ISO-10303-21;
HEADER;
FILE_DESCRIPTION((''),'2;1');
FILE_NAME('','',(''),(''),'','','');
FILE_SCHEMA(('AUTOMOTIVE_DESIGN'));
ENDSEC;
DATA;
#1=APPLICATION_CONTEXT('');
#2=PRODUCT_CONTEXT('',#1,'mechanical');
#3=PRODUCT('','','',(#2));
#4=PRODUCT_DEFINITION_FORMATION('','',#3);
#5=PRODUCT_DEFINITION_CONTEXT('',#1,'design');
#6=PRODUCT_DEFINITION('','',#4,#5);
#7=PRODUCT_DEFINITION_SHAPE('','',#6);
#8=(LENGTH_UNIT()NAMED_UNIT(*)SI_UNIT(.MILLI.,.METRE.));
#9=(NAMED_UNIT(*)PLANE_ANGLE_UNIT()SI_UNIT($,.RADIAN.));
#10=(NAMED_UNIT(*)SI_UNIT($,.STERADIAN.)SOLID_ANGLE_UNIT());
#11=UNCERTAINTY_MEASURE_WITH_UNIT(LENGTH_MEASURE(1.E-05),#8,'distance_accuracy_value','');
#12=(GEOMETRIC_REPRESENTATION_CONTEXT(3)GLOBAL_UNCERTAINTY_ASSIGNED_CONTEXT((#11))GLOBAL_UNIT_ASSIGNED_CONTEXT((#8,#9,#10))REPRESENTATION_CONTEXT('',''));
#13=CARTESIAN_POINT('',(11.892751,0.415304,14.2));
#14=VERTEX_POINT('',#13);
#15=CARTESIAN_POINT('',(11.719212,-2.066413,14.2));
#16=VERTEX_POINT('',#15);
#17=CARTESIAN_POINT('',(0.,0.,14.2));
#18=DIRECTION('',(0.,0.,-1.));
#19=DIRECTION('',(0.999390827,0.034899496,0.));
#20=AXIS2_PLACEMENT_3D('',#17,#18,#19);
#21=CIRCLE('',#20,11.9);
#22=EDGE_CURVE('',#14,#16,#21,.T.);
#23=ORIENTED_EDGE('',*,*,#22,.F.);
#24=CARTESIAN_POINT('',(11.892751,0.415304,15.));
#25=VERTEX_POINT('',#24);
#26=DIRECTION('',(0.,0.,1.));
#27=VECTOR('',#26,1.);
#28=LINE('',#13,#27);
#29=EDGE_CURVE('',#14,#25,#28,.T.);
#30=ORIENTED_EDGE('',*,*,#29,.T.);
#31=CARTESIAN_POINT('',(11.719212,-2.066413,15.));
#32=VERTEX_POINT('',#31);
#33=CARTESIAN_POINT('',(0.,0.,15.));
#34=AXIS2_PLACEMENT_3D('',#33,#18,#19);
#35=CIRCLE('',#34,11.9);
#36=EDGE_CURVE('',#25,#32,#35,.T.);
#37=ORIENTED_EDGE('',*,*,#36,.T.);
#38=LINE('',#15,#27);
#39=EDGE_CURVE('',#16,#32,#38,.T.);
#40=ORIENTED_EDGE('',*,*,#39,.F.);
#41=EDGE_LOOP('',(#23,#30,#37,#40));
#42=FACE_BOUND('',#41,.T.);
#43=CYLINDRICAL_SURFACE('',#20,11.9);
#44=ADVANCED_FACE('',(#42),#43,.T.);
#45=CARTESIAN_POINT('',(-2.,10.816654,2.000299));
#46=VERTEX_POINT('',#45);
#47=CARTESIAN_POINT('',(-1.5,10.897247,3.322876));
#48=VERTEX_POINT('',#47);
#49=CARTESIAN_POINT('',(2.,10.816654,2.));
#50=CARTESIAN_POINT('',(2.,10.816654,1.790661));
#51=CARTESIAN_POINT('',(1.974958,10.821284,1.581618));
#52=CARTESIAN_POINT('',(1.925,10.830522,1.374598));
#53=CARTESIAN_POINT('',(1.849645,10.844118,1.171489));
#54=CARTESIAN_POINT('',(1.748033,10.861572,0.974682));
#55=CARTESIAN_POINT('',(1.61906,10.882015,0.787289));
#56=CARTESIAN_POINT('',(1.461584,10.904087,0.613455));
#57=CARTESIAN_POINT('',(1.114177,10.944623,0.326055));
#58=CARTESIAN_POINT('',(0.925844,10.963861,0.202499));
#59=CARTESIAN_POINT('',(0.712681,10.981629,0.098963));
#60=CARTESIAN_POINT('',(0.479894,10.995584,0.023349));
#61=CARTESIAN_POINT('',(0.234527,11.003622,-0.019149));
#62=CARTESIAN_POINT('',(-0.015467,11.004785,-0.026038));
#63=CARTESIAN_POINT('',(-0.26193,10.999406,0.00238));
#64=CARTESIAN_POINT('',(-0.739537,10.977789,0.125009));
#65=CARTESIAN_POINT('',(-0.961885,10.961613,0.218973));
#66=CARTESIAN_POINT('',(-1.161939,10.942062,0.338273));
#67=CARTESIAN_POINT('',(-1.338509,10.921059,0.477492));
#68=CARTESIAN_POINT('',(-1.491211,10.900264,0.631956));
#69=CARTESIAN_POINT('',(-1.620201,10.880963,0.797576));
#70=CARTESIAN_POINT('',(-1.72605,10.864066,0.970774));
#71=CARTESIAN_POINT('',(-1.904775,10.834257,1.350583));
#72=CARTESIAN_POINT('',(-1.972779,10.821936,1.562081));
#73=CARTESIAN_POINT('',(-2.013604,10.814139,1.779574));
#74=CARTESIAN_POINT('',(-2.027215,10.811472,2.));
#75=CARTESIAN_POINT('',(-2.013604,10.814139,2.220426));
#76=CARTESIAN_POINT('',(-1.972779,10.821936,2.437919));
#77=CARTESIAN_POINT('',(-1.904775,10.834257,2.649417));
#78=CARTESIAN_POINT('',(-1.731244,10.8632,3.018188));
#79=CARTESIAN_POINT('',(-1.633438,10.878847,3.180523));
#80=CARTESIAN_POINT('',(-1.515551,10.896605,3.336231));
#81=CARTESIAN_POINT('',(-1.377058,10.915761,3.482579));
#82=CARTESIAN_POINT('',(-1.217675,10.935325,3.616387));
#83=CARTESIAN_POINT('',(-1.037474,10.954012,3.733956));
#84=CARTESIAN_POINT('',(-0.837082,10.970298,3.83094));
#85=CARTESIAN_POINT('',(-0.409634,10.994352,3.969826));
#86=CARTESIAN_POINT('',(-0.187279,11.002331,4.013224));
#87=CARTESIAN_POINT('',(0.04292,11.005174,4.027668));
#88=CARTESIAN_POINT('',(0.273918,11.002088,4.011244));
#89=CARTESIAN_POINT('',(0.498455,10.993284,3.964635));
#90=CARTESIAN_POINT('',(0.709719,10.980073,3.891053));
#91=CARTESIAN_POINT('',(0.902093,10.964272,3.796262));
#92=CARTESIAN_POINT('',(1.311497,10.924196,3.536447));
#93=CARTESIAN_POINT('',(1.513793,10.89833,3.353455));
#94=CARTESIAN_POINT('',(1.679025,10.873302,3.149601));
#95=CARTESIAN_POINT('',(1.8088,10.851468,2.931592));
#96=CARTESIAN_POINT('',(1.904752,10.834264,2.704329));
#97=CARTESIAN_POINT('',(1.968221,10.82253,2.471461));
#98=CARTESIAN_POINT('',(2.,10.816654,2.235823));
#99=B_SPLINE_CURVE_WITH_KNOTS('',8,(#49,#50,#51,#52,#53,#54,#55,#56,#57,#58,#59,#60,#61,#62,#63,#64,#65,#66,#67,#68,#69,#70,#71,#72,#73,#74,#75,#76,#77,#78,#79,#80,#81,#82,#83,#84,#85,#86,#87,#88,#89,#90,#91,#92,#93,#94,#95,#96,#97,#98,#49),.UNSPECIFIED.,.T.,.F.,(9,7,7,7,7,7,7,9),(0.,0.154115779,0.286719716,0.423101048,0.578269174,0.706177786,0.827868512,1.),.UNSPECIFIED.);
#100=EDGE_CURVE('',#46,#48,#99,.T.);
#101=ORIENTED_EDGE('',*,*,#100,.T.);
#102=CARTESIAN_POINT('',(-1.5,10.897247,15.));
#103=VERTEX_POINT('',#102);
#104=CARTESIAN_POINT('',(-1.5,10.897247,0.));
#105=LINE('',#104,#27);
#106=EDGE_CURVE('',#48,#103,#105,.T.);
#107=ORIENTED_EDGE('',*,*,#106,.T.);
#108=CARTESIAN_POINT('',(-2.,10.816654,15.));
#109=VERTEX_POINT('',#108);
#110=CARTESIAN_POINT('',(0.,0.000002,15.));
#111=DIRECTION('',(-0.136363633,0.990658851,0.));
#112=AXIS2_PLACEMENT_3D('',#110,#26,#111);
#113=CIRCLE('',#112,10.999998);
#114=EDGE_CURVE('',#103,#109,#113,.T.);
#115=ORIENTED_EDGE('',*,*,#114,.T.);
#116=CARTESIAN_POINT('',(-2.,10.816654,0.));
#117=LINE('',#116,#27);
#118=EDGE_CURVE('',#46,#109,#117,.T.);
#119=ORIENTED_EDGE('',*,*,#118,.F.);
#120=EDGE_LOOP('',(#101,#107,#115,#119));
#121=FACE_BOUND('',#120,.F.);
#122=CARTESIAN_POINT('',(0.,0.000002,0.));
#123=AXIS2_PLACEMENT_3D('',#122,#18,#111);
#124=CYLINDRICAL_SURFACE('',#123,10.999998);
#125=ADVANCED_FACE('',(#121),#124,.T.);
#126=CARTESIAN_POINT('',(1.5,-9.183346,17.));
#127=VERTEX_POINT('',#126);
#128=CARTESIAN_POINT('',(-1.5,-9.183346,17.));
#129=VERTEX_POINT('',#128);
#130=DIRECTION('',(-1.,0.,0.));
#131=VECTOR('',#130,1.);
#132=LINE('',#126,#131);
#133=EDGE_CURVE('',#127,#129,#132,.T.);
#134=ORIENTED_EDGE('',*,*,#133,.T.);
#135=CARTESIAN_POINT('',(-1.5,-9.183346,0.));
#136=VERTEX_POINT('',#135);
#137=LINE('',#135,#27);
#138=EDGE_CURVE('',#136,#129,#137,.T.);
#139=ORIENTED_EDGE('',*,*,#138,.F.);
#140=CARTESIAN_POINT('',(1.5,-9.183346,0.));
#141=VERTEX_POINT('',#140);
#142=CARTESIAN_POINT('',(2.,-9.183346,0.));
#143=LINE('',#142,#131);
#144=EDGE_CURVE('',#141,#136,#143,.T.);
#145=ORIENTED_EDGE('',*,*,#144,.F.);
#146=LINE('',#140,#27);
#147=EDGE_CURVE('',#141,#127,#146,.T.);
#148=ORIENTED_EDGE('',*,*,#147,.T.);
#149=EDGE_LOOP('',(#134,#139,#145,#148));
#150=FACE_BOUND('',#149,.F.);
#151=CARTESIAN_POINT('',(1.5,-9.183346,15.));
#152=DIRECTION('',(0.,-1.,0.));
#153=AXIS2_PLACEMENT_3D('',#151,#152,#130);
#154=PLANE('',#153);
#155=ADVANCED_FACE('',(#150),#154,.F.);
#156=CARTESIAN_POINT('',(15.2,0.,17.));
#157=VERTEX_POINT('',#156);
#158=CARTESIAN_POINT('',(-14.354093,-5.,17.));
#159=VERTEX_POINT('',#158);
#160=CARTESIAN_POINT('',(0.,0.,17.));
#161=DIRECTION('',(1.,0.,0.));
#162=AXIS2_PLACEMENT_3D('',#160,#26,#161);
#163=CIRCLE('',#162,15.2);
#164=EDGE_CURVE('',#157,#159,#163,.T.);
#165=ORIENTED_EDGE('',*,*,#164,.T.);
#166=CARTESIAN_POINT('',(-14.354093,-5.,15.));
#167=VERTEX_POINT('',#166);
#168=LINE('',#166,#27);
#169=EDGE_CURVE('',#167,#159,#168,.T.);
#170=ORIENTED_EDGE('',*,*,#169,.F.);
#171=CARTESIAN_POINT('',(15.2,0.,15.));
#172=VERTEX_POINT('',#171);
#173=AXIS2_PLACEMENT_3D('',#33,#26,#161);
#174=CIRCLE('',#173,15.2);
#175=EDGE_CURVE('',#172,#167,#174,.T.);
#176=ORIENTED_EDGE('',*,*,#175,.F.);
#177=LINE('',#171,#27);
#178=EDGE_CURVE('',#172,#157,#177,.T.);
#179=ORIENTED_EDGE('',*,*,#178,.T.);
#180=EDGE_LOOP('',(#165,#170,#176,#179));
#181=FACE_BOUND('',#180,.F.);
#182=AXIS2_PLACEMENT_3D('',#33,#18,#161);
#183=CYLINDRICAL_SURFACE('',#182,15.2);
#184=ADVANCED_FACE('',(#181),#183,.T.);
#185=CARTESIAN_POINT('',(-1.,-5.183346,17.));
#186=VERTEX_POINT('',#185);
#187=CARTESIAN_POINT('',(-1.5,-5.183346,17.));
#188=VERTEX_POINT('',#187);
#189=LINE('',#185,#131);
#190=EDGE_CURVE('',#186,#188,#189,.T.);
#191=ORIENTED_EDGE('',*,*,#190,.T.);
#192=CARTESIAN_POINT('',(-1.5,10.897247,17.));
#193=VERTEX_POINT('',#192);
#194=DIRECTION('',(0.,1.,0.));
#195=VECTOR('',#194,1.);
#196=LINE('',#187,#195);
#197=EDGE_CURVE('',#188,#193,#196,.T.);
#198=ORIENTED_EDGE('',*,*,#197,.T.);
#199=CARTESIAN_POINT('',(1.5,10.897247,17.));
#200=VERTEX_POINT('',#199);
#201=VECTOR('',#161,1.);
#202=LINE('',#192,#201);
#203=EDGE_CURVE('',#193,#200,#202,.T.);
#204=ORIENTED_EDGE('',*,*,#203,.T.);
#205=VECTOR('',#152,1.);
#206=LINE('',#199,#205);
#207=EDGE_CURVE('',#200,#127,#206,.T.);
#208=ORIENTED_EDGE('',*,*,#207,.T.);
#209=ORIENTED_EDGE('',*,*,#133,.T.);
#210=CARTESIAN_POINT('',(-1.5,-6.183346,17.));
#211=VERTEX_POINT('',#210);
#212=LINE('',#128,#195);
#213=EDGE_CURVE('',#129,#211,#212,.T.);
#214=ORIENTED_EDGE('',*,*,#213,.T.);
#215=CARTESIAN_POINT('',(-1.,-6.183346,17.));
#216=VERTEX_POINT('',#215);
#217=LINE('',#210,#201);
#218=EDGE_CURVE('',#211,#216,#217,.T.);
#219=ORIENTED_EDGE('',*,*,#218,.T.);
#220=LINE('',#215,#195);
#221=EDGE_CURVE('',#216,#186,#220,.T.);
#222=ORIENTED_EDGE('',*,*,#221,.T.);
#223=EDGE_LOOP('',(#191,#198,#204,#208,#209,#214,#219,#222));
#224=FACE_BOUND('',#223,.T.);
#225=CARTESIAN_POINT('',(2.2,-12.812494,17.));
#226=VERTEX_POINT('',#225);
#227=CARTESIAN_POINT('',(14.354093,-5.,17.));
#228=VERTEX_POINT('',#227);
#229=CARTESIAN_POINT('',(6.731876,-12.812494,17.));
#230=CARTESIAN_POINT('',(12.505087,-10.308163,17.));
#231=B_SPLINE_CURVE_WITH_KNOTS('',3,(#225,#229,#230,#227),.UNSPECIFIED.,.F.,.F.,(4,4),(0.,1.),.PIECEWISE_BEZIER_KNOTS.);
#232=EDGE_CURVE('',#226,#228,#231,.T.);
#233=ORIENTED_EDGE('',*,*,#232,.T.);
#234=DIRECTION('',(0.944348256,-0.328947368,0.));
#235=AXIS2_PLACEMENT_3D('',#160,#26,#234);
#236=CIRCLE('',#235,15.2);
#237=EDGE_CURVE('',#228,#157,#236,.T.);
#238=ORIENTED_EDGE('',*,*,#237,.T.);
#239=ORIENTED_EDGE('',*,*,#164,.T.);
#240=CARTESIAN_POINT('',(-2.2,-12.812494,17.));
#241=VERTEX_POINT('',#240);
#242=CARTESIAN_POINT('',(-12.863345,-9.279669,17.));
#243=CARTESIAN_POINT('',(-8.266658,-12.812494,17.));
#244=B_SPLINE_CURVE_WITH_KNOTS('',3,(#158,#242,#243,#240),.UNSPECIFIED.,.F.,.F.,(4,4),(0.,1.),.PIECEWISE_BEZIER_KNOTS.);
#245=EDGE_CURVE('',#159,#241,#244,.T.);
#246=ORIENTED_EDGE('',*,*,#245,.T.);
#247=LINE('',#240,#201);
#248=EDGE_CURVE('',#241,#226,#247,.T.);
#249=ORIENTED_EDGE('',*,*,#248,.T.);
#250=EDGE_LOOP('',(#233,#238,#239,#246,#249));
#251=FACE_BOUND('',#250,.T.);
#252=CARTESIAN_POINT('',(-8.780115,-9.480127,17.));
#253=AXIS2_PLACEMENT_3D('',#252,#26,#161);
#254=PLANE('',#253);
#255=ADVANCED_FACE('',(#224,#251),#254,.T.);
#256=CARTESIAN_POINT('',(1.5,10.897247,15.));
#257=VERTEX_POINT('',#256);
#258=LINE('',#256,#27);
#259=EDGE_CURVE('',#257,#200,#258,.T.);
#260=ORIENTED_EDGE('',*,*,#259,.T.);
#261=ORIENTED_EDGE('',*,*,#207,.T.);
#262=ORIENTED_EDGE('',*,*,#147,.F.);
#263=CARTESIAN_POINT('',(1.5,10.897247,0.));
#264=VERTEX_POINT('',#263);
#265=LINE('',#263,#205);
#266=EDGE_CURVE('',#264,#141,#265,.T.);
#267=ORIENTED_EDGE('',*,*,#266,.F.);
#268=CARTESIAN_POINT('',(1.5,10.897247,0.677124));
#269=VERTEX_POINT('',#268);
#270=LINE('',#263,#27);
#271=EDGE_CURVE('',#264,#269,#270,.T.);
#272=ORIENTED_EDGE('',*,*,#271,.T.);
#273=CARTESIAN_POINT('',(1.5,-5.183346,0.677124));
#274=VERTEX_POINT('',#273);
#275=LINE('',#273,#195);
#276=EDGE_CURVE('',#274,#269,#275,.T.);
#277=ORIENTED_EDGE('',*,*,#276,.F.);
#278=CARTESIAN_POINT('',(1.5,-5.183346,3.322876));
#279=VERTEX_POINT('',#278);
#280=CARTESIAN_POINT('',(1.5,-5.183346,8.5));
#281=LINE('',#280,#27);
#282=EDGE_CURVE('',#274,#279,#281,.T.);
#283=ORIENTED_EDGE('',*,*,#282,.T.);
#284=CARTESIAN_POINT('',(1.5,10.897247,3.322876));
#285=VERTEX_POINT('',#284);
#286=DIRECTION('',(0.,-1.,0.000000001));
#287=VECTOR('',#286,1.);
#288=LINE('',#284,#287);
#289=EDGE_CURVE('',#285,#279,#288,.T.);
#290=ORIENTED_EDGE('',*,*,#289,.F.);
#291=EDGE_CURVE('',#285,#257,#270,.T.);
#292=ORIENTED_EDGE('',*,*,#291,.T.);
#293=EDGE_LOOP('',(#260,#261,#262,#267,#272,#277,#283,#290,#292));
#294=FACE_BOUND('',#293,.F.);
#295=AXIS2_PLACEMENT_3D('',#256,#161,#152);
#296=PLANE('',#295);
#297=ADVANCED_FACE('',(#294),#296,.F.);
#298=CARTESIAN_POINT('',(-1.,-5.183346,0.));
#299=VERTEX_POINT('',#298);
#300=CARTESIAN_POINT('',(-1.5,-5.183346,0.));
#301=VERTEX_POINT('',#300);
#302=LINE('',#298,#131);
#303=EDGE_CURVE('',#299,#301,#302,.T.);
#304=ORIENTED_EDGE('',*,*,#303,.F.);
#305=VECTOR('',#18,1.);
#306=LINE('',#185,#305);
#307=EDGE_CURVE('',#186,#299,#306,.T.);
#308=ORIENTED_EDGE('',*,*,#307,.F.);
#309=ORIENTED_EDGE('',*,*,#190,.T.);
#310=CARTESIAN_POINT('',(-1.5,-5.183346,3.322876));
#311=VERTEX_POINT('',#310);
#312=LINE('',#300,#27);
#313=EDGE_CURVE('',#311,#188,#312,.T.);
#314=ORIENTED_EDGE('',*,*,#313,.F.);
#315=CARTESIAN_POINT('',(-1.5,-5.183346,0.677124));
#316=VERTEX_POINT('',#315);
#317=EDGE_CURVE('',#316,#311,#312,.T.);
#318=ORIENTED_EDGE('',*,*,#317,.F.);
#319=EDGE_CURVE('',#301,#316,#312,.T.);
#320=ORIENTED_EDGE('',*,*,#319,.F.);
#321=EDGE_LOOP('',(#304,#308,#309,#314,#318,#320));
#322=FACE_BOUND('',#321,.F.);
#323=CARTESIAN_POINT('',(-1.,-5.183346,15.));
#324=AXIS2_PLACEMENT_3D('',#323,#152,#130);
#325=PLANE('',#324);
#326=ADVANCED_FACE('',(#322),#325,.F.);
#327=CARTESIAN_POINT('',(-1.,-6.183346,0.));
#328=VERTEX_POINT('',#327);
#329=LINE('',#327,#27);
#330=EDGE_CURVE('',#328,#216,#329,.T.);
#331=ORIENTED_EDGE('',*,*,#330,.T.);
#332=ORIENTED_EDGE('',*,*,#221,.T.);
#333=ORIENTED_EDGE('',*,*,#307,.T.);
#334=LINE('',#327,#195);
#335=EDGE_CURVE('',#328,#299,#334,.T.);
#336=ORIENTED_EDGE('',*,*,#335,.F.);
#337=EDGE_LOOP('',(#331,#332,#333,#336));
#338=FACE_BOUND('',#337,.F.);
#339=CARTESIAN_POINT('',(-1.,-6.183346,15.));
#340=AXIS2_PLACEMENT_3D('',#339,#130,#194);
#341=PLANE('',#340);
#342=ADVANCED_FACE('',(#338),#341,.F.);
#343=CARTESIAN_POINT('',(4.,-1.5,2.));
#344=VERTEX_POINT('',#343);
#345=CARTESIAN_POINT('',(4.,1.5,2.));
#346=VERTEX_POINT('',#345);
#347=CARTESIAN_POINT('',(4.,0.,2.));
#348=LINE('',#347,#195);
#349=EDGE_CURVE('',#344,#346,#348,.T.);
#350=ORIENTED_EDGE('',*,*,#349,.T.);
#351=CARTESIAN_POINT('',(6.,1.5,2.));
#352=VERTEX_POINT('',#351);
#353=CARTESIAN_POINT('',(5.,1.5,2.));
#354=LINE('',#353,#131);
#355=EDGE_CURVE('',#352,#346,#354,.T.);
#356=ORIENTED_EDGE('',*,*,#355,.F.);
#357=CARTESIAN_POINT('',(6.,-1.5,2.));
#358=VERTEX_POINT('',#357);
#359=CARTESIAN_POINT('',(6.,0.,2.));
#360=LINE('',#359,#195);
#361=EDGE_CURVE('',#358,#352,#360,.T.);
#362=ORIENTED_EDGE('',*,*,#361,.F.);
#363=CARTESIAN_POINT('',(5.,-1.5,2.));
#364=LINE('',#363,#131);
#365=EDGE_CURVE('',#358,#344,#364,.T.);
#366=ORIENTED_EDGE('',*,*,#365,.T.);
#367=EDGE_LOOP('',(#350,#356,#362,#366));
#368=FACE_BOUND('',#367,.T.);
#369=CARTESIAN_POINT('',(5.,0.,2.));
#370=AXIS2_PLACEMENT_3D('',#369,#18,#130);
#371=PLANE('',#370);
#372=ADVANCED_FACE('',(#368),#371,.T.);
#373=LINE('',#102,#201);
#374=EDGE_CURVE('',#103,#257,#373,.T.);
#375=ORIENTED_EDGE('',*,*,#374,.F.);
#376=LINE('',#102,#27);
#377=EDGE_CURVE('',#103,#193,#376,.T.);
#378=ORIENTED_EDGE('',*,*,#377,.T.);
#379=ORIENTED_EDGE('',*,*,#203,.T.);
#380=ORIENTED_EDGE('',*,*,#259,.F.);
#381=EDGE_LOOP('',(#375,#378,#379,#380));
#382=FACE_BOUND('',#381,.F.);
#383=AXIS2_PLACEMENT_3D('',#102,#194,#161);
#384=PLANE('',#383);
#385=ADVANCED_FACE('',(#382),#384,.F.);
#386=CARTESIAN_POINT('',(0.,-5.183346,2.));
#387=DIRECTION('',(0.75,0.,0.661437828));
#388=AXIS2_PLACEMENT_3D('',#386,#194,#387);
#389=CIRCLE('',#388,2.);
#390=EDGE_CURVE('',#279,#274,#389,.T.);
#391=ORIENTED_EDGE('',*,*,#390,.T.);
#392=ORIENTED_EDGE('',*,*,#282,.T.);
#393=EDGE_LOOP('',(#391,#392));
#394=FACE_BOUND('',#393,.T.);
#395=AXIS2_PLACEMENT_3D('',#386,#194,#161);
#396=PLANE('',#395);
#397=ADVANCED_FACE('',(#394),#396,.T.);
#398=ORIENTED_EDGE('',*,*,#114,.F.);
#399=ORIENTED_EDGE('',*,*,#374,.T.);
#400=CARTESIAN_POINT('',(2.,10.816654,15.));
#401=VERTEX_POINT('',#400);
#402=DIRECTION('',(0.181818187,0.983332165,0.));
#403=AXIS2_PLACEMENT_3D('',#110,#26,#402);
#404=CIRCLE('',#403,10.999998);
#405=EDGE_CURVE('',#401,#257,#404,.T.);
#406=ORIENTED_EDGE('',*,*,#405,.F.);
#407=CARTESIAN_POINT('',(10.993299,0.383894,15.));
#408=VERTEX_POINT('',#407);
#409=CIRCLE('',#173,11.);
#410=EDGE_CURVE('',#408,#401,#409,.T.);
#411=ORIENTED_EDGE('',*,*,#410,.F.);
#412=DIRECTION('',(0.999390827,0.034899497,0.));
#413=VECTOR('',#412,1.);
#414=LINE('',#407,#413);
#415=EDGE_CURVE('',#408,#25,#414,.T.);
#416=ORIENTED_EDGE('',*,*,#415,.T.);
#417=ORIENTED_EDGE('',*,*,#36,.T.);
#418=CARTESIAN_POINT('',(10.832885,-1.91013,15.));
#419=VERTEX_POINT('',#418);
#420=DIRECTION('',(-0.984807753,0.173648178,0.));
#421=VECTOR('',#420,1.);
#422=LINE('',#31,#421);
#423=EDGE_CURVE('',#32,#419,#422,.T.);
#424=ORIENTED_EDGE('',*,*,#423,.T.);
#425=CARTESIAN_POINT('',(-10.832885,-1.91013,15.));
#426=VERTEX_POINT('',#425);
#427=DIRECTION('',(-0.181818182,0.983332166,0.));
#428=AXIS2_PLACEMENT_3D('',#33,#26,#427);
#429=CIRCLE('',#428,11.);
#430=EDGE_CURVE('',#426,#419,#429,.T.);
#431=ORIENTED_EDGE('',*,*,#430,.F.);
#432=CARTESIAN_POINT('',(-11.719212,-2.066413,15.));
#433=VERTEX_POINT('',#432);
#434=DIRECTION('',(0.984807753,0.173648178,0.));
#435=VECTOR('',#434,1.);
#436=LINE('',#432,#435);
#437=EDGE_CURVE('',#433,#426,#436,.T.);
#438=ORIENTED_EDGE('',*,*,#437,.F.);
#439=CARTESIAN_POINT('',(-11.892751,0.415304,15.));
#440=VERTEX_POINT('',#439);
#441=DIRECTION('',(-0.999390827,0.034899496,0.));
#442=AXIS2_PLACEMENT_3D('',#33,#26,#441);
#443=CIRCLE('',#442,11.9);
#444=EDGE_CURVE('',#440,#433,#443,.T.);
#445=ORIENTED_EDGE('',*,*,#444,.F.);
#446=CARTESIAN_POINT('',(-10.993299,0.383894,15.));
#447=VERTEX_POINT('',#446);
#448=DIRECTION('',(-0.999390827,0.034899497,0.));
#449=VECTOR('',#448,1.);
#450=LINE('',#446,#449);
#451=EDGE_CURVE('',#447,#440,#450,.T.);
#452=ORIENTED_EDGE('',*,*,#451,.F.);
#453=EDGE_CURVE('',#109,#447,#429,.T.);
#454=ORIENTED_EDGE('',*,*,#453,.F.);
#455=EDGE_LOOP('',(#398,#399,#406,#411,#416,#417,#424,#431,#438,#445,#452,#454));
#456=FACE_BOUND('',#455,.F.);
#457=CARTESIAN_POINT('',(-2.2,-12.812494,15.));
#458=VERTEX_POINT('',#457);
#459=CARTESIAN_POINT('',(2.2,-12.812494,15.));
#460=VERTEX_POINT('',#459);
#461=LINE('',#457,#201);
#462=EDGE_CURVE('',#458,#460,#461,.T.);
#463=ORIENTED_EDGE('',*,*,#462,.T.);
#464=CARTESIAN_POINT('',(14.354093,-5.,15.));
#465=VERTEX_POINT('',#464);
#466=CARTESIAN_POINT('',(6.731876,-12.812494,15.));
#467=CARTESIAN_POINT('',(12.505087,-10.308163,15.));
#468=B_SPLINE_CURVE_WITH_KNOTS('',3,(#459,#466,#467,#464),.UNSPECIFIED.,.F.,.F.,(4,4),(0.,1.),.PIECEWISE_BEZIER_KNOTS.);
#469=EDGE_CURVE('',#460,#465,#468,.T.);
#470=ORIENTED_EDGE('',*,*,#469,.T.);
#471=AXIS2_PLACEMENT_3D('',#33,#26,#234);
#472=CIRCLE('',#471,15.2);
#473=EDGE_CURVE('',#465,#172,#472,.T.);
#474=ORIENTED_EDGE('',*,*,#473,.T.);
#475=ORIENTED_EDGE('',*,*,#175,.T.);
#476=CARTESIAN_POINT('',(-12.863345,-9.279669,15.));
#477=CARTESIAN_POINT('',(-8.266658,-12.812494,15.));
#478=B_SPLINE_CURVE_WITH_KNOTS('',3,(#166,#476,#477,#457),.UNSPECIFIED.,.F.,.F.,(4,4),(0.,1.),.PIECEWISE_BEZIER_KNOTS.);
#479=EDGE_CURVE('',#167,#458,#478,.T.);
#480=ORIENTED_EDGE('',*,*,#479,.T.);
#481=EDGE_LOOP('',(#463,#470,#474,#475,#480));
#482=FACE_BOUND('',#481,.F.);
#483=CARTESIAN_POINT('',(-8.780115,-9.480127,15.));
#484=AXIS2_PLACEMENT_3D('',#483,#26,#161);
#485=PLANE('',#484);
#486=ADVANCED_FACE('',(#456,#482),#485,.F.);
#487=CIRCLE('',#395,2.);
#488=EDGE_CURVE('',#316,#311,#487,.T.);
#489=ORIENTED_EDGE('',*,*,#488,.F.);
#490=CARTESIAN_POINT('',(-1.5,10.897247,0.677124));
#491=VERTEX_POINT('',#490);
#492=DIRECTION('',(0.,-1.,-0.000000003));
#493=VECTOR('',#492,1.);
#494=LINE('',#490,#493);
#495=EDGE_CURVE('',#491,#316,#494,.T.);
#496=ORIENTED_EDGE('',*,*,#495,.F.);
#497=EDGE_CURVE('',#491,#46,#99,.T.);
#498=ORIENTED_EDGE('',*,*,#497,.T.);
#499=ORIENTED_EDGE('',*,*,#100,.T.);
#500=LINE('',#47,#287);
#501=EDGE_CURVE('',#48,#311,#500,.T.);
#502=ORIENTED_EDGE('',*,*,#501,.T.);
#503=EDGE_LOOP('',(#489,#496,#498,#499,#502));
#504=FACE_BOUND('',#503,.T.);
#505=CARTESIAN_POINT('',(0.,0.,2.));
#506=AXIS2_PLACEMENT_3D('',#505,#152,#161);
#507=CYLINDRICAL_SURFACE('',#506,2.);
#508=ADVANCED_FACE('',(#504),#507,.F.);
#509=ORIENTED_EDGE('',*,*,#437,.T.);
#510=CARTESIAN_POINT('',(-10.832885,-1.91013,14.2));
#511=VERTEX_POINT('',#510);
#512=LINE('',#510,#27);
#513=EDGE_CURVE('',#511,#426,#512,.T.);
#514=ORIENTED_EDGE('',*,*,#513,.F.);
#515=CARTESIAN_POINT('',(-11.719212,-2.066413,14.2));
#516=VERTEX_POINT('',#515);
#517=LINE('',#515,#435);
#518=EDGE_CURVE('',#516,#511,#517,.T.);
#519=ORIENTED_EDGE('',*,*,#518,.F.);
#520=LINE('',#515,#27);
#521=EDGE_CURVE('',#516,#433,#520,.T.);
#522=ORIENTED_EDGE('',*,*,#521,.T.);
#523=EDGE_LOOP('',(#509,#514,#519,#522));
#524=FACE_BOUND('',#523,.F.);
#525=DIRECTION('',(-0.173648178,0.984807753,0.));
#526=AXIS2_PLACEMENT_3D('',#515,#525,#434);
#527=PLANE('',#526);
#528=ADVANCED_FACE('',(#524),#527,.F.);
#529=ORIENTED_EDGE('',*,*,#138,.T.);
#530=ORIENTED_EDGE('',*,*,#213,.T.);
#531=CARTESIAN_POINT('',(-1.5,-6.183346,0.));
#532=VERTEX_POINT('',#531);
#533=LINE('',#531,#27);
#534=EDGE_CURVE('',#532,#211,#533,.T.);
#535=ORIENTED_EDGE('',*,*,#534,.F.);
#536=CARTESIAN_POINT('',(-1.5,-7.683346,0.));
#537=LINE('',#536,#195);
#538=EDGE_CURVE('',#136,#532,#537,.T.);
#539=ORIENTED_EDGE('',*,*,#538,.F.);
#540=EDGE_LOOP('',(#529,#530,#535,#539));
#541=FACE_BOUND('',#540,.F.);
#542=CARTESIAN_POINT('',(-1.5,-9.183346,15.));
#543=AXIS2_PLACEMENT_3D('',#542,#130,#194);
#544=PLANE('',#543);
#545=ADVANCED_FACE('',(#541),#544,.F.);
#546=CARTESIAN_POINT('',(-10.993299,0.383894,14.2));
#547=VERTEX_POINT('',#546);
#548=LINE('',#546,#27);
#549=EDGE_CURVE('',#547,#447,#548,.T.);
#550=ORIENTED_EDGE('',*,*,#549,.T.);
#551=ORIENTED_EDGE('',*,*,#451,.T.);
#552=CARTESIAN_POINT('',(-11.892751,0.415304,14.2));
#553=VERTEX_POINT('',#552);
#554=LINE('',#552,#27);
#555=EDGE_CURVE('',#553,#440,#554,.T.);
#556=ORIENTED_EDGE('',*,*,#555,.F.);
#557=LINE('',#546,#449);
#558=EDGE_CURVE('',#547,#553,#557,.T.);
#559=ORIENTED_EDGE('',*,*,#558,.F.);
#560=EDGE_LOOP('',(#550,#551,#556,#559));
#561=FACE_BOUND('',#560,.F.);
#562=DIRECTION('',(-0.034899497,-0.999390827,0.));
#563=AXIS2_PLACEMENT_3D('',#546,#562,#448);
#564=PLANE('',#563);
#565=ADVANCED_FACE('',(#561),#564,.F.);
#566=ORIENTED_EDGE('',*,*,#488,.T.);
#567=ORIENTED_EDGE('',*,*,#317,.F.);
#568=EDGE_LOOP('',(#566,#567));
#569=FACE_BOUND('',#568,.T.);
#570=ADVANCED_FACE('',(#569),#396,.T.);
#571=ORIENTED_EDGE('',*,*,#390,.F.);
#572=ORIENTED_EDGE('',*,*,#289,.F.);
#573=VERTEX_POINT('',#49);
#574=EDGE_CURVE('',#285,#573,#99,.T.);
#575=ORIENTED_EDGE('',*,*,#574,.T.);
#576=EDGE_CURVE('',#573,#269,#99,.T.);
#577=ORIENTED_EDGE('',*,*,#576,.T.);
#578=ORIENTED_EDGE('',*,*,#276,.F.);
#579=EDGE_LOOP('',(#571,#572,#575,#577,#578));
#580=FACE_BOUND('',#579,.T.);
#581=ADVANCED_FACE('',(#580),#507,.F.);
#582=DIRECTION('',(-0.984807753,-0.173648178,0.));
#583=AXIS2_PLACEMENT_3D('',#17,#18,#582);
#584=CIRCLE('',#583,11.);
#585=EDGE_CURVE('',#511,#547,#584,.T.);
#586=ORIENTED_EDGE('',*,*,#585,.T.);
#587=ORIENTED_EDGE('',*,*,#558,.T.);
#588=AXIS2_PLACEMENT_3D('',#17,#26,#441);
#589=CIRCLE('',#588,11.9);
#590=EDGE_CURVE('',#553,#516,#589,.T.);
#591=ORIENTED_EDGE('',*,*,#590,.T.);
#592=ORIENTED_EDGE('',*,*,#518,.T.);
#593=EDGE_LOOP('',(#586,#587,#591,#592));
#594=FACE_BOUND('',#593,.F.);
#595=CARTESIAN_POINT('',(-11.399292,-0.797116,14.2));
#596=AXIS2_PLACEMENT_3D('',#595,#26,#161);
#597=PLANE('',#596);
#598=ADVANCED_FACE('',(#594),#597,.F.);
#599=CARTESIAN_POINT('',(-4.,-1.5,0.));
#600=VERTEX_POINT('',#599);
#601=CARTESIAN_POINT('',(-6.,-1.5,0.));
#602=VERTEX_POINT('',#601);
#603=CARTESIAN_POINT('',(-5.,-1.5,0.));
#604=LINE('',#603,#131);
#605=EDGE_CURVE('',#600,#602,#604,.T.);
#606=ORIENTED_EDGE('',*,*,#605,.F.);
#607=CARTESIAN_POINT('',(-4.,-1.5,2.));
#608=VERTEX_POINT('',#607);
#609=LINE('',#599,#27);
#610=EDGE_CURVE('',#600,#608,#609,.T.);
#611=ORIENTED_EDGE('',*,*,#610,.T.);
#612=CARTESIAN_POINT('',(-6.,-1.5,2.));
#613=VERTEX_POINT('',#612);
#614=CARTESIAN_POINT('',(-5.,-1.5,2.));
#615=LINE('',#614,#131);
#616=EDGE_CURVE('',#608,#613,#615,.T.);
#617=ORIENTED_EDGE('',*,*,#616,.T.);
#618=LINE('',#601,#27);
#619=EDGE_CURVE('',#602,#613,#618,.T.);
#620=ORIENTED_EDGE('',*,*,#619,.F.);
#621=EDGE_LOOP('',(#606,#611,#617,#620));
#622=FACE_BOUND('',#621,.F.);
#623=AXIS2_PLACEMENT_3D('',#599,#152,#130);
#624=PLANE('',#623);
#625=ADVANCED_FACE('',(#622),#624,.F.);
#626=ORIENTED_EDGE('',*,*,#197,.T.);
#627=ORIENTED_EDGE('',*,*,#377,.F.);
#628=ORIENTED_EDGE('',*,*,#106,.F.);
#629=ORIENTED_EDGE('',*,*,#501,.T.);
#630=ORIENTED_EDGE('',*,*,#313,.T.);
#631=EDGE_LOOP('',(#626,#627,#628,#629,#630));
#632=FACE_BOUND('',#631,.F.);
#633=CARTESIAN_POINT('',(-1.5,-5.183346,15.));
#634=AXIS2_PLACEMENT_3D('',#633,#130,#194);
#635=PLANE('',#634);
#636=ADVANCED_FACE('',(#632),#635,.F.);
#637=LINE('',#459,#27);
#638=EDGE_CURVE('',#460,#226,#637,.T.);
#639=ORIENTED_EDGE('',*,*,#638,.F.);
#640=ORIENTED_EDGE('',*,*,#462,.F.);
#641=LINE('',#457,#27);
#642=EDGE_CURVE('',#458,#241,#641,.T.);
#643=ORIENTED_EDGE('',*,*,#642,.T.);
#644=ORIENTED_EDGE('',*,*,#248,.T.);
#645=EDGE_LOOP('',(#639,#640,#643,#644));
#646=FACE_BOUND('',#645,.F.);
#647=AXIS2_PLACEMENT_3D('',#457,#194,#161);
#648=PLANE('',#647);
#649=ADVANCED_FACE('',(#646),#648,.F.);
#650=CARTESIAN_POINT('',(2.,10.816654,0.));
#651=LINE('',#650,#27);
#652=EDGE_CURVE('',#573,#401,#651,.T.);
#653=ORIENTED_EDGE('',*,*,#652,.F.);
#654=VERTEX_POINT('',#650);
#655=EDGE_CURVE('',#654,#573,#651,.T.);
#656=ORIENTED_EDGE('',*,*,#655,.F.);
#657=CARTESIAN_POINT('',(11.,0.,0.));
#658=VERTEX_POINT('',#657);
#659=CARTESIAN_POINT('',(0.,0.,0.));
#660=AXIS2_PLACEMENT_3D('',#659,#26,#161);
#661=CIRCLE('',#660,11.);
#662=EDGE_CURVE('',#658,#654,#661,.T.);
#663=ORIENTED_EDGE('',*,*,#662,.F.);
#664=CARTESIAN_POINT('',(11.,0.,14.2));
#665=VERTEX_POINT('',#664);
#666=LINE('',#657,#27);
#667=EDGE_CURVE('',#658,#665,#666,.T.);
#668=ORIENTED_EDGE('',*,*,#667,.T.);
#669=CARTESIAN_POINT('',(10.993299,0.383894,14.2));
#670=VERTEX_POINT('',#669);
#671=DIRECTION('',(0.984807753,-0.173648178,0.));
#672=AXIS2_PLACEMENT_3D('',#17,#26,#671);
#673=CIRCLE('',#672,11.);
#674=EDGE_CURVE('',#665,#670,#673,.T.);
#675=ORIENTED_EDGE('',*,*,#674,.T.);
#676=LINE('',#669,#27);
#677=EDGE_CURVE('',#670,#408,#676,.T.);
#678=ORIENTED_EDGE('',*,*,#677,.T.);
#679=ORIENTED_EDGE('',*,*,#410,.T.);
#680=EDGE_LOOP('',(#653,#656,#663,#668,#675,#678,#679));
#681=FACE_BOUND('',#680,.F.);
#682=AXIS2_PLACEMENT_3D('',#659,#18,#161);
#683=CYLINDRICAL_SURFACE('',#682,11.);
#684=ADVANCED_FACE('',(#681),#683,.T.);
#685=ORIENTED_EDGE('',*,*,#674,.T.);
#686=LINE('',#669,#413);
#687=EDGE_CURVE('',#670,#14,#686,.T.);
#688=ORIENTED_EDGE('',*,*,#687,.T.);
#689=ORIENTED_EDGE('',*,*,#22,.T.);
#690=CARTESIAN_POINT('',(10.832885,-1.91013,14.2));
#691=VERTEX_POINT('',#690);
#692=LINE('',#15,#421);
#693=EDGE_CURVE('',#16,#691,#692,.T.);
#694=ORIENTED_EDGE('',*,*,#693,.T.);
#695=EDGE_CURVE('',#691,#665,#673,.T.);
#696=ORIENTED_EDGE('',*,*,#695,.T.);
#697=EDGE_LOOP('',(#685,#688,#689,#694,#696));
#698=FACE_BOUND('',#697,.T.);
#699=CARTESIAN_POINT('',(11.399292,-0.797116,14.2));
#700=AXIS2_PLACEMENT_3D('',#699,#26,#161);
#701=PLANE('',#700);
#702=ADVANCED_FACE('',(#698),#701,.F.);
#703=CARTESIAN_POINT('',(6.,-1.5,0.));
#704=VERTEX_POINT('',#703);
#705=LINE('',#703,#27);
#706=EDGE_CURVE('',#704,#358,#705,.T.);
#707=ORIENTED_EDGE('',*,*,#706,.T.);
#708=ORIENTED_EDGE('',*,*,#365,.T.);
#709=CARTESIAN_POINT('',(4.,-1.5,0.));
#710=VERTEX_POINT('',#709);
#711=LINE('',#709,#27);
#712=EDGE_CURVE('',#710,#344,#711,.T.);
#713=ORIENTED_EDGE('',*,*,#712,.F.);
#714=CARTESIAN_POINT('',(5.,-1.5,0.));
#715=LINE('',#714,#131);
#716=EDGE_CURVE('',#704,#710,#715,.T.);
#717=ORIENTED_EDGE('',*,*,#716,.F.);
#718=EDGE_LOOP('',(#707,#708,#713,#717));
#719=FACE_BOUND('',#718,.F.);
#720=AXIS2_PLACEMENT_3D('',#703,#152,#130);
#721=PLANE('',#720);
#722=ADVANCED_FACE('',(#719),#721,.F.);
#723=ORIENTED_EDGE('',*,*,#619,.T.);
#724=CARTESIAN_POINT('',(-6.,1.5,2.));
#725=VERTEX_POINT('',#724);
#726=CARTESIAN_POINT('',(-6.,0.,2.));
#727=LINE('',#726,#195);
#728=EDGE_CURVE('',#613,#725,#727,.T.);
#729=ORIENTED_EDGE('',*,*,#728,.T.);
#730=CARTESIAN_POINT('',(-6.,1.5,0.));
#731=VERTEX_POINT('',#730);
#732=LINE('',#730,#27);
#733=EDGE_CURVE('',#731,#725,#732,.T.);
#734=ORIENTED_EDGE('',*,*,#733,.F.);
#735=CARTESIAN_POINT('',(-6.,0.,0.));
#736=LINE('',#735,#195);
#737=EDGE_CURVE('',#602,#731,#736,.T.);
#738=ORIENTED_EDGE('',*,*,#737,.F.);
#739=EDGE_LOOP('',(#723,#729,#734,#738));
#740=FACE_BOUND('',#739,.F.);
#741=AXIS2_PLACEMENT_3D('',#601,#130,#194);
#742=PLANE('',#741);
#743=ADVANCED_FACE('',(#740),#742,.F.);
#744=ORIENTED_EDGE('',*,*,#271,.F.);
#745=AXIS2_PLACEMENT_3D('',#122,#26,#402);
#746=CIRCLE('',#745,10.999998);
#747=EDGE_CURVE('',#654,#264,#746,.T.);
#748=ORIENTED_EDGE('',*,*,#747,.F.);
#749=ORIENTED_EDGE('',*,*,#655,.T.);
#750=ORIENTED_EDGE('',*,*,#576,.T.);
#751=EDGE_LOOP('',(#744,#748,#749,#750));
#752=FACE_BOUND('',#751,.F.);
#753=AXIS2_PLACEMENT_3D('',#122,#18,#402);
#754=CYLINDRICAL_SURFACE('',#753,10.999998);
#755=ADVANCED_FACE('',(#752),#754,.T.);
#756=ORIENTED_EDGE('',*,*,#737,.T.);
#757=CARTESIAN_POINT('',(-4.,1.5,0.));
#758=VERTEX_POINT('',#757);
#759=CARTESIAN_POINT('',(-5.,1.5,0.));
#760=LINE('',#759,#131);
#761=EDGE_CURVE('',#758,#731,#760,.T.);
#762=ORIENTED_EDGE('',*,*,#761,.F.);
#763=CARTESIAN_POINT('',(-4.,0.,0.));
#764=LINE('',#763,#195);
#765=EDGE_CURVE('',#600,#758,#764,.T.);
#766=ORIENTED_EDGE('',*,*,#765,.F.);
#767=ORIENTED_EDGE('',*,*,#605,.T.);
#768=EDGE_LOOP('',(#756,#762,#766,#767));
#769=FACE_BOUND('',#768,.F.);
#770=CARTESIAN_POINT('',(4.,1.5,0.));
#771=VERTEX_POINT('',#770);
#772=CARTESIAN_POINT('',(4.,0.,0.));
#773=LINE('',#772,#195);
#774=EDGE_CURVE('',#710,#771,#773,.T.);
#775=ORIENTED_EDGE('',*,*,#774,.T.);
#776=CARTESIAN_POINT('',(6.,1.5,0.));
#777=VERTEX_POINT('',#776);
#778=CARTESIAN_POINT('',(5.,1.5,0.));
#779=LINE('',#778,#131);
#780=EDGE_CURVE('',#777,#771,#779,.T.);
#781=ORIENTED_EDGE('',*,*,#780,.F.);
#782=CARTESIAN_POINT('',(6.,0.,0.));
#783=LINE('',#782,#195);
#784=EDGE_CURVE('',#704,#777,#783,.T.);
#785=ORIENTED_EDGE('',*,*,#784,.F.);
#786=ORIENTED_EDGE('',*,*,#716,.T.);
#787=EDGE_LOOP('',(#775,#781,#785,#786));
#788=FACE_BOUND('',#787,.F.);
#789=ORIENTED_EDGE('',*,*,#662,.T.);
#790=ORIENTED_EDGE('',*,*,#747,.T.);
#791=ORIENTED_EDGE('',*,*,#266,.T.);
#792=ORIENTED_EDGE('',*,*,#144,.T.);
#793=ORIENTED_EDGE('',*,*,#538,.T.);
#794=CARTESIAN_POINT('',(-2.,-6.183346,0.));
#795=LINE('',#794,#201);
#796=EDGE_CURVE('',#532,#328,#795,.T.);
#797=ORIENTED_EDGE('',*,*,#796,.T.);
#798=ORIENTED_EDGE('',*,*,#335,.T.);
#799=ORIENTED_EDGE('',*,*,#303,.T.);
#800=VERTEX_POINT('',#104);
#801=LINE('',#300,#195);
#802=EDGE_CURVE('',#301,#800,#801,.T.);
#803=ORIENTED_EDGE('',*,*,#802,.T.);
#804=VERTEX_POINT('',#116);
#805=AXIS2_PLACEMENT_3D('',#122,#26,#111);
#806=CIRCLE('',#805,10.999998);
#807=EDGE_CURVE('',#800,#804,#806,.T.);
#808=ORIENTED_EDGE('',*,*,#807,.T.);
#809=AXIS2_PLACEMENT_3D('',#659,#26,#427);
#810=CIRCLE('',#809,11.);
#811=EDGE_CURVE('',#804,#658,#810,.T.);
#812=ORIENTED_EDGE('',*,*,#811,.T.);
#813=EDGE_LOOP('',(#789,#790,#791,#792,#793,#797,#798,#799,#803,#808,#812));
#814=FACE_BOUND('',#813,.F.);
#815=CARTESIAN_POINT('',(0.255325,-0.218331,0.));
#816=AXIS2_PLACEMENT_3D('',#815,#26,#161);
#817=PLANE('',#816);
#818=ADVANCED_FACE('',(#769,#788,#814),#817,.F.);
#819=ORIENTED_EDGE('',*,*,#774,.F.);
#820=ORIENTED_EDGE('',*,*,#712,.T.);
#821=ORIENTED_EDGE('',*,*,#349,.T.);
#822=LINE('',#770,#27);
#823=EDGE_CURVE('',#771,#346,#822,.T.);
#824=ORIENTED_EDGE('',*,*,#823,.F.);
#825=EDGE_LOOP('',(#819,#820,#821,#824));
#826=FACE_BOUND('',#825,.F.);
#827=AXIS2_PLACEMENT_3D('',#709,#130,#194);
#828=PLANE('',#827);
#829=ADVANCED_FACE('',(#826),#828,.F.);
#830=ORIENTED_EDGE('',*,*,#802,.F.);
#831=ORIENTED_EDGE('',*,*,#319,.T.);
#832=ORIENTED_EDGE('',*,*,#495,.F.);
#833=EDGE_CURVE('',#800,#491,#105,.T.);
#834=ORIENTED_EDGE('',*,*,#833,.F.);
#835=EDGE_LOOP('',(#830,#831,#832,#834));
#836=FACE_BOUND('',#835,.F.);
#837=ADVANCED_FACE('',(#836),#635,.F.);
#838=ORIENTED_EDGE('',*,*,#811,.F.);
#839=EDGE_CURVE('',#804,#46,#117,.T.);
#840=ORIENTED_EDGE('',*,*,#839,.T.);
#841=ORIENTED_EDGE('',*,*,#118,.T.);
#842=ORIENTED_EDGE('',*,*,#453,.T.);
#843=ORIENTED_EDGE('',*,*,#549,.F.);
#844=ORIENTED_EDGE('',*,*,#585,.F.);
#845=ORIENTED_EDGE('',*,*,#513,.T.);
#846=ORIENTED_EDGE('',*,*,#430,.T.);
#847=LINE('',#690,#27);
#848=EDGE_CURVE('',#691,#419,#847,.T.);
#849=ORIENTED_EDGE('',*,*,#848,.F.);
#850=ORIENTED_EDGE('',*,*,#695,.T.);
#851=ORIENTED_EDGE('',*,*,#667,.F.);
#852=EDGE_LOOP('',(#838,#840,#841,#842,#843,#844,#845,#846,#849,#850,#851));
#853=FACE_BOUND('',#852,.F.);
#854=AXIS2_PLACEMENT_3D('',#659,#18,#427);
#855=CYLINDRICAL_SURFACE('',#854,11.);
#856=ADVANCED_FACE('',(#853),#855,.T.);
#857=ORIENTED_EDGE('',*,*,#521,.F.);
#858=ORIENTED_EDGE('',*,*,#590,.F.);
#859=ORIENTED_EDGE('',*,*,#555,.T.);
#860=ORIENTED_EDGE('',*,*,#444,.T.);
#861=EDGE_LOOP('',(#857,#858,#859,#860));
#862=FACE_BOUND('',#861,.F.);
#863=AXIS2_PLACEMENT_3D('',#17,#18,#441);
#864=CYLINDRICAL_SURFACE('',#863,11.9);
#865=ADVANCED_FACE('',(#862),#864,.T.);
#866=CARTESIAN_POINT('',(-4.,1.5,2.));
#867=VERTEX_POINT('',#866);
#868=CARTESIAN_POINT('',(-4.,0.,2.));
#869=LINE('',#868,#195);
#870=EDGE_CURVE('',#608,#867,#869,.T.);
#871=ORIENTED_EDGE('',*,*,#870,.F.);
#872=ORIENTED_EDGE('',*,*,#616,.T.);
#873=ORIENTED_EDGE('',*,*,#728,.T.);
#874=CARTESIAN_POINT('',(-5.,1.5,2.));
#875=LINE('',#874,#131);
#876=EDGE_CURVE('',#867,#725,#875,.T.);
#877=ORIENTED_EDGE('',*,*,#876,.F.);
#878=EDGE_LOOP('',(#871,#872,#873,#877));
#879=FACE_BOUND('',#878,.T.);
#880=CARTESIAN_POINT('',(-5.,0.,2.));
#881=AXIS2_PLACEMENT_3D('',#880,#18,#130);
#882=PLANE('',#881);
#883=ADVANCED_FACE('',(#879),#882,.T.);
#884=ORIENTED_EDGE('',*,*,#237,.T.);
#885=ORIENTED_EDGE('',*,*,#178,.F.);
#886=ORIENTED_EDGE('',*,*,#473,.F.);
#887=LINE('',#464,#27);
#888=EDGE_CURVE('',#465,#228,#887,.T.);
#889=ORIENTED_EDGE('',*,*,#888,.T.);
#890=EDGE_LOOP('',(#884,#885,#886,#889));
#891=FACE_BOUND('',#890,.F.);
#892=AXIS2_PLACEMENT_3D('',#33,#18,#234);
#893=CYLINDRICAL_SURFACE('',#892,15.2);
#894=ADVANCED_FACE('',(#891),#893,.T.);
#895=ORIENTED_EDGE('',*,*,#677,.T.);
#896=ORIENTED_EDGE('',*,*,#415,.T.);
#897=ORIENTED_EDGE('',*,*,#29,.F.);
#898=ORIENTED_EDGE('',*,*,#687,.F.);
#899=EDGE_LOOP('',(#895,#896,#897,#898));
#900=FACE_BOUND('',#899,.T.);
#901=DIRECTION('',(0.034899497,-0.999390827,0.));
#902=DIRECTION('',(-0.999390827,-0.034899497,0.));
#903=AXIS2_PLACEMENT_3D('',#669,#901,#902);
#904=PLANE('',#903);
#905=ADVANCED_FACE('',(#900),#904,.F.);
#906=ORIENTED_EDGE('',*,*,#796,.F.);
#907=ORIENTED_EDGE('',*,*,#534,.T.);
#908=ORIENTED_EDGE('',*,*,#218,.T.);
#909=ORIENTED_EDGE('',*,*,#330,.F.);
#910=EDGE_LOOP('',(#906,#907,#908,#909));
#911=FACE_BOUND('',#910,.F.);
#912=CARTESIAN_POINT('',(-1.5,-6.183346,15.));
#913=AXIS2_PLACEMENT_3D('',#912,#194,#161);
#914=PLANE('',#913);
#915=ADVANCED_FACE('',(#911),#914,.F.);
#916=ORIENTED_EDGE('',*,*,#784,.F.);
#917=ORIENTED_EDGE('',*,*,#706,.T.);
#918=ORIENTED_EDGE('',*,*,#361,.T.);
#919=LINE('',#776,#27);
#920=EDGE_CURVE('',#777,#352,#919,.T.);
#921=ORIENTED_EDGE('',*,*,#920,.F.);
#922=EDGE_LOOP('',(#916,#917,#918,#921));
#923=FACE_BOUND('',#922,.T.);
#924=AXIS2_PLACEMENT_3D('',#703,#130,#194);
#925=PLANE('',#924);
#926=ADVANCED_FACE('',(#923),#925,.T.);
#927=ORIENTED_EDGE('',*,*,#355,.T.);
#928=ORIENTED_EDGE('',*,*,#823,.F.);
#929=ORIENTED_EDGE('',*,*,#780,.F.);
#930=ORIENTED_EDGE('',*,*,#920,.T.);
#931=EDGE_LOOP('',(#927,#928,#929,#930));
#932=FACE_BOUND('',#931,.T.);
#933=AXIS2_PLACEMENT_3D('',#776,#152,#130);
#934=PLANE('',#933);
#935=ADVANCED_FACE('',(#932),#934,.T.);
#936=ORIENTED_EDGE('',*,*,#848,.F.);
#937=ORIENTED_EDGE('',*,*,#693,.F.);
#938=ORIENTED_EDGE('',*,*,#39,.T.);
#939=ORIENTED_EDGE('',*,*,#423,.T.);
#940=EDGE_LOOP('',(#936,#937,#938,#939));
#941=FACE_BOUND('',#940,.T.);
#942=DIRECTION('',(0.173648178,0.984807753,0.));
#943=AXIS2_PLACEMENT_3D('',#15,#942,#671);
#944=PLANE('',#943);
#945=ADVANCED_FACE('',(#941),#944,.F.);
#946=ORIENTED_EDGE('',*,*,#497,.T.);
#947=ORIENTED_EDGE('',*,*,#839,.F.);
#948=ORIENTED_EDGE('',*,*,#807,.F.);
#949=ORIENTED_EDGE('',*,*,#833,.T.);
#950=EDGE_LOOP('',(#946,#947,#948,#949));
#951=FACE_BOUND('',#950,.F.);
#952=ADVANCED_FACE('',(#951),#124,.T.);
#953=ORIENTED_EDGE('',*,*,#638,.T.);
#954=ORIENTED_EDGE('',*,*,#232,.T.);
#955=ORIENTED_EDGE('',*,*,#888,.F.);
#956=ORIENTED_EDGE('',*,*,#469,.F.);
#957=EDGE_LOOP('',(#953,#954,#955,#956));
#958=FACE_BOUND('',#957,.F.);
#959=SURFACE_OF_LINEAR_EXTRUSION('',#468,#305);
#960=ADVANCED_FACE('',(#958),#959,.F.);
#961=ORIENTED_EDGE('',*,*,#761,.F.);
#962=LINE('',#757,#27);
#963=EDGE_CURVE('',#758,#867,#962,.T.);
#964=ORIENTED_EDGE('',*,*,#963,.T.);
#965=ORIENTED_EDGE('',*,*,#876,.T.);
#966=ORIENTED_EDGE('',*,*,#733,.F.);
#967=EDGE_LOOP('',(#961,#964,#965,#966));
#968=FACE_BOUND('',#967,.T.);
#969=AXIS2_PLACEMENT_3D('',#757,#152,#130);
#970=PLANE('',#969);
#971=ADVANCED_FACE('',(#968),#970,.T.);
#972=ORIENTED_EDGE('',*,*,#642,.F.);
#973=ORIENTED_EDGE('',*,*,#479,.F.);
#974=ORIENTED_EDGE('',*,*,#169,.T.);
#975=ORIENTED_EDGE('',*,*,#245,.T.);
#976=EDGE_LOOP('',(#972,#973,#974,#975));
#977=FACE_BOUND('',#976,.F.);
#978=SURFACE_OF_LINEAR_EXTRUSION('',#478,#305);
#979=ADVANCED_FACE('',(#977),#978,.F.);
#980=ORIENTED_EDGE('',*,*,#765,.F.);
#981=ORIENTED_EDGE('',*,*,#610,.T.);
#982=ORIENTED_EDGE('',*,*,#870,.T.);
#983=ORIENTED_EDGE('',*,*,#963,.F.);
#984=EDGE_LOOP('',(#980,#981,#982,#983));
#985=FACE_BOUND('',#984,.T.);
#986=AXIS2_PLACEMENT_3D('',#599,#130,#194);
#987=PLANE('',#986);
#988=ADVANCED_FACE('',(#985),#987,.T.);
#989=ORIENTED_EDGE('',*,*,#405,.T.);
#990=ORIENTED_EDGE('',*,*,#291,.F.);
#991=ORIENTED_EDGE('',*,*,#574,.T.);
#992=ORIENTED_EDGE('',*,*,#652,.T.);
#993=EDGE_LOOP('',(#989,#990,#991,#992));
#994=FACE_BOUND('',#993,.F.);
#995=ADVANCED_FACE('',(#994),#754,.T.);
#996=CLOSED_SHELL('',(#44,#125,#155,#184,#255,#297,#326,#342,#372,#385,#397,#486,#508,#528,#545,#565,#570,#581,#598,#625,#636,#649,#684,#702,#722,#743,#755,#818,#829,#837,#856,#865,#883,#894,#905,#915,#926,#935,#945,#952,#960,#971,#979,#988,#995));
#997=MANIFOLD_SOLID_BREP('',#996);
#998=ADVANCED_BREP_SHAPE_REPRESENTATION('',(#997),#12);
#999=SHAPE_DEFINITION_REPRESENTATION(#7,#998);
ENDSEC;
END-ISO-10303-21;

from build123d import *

# Parameters (mm, degrees)
SKETCH1_W                       = 0.5
SKETCH1_H                       = 16
SKETCH1_H_2                     = 1
SKETCH1_H_3                     = 3
BOSS_EXTRUDE1_DEPTH             = 15
SKETCH5_W                       = 2
SKETCH5_H                       = 3
CUT_EXTRUDE1_DEPTH              = 2
BOSS_EXTRUDE2_DEPTH             = 2
STICK_START                     = -2.8
STICK_OUTS_DEPTH                = 0.8
PIN_HOLE_SKETCH_R               = 2
PIN_HOLE_DEPTH                  = 5.183346
PIN_HOLE_DIRECTION_2_REACH      = 29.406
PIN_HOLE_DIRECTION_2_END_RADIUS = 11


with BuildPart() as part:
    # Sketch1 → Boss-Extrude1 (new body)
    with BuildSketch(Plane.XY):
        with BuildLine():
            Line((-2, -5.183346174), (-2, 10.816653826))
            ThreePointArc((-2, 10.816653826), (-7.03562364, -8.455767263), (11, 0))
            ThreePointArc((11, 0), (8.455767263, 7.03562364), (2, 10.816653826))
            Line((2, 10.816653826), (2, -5.183346174))
            Line((2, -5.183346174), (2, -6.183346174))
            Line((2, -6.183346174), (2, -9.183346174))
            Line((2, -9.183346174), (1.5, -9.183346174))
            Line((1.5, -9.183346174), (-1.5, -9.183346174))
            Line((-1.5, -9.183346174), (-2, -9.183346174))
            Line((-2, -9.183346174), (-2, -6.183346174))
            Line((-2, -6.183346174), (-1.5, -6.183346174))
            Line((-1.5, -6.183346174), (-1, -6.183346174))
            Line((-1, -6.183346174), (-1, -5.183346174))
            Line((-1, -5.183346174), (-1.5, -5.183346174))
            Line((-1.5, -5.183346174), (-2, -5.183346174))
        make_face()
        with Locations((1.75, 2.816653826)):
            Rectangle(SKETCH1_W, SKETCH1_H)
        with Locations((1.75, -5.683346174)):
            Rectangle(SKETCH1_W, SKETCH1_H_2)
        with Locations((1.75, -7.683346174)):
            Rectangle(SKETCH1_W, SKETCH1_H_3)
        with Locations((-1.75, -7.683346174)):
            Rectangle(SKETCH1_W, SKETCH1_H_3)
        with Locations((-1.75, 2.816653826)):
            Rectangle(SKETCH1_W, SKETCH1_H)
        with BuildLine():
            ThreePointArc((2, 10.816653826), (1.75046389, 10.859828552), (1.5, 10.897247359))
            Line((1.5, 10.897247359), (1.5, 10.816653826))
            Line((1.5, 10.816653826), (2, 10.816653826))
        make_face()
        with BuildLine():
            Line((-1.5, 10.816653826), (-1.5, 10.897247359))
            ThreePointArc((-1.5, 10.897247359), (-1.75046389, 10.859828552), (-2, 10.816653826))
            Line((-2, 10.816653826), (-1.5, 10.816653826))
        make_face()
    extrude(amount=BOSS_EXTRUDE1_DEPTH)

    # Sketch5 → Cut-Extrude1 (cut)
    with BuildSketch(Plane(origin=(0, 0, 0), x_dir=(-1, 0, 0), z_dir=(0, 0, -1))):
        with Locations((-5, 0)):
            Rectangle(SKETCH5_W, SKETCH5_H)
        with Locations((5, 0)):
            Rectangle(SKETCH5_W, SKETCH5_H)
    extrude(amount=-CUT_EXTRUDE1_DEPTH, mode=Mode.SUBTRACT)

    # Sketch3 → Boss-Extrude2 (add)
    with BuildSketch(Plane.XY.offset(15)):
        with BuildLine():
            add(Edge.make_bspline(
                [(-14.354093493, -5), (-12.863344749, -9.279669369), (-8.266658173, -12.812493902), (-2.2, -12.812493902)],
                knots=[0, 0, 0, 0, 1, 1, 1, 1], degree=3))
            ThreePointArc((-2.2, -12.812493902), (-8.103626672, -10.165197232), (-12, -5))
            Line((-12, -5), (-14.354093493, -5))
        make_face()
        with BuildLine():
            Line((-2.2, -12.812493902), (2.2, -12.812493902))
            ThreePointArc((2.2, -12.812493902), (8.103626672, -10.165197232), (12, -5))
            Line((12, -5), (9.797958971, -5))
            ThreePointArc((9.797958971, -5), (0, -11), (-9.797958971, -5))
            Line((-9.797958971, -5), (-12, -5))
            ThreePointArc((-12, -5), (-8.103626672, -10.165197232), (-2.2, -12.812493902))
        make_face()
        with BuildLine():
            ThreePointArc((12, -5), (8.103626672, -10.165197232), (2.2, -12.812493902))
            add(Edge.make_bspline(
                [(2.2, -12.812493902), (6.731876181, -12.812493902), (12.505086924, -10.308162631), (14.354093493, -5)],
                knots=[0, 0, 0, 0, 1, 1, 1, 1], degree=3))
            Line((14.354093493, -5), (12, -5))
        make_face()
        with BuildLine():
            ThreePointArc((-9.797958971, -5), (0, -11), (9.797958971, -5))
            Line((9.797958971, -5), (1.5, -5))
            Line((1.5, -5), (1.5, -9.183346174))
            Line((1.5, -9.183346174), (-1.5, -9.183346174))
            Line((-1.5, -9.183346174), (-1.5, -6.183346174))
            Line((-1.5, -6.183346174), (-1, -6.183346174))
            Line((-1, -6.183346174), (-1, -5.183346174))
            Line((-1, -5.183346174), (-1.5, -5.183346174))
            Line((-1.5, -5.183346174), (-1.5, -5))
            Line((-1.5, -5), (-9.797958971, -5))
        make_face()
        with BuildLine():
            Line((1.5, -5), (9.797958971, -5))
            ThreePointArc((9.797958971, -5), (10.695268783, -2.571230378), (11, 0))
            ThreePointArc((11, 0), (8.291561976, 7.228416147), (1.5, 10.897247359))
            Line((1.5, 10.897247359), (1.5, -5))
        make_face()
        with BuildLine():
            ThreePointArc((-1.5, 10.897247359), (-9.751491559, 5.090030685), (-9.797958971, -5))
            Line((-9.797958971, -5), (-1.5, -5))
            Line((-1.5, -5), (-1.5, 10.897247359))
        make_face()
        with BuildLine():
            Line((9.797958971, -5), (12, -5))
            ThreePointArc((12, -5), (12.747548784, -2.549509757), (13, 0))
            ThreePointArc((13, 0), (-2.549509757, 12.747548784), (-12, -5))
            Line((-12, -5), (-9.797958971, -5))
            ThreePointArc((-9.797958971, -5), (-9.751491559, 5.090030685), (-1.5, 10.897247359))
            ThreePointArc((-1.5, 10.897247359), (0, 11), (1.5, 10.897247359))
            ThreePointArc((1.5, 10.897247359), (8.291561976, 7.228416147), (11, 0))
            ThreePointArc((11, 0), (10.695268783, -2.571230378), (9.797958971, -5))
        make_face()
        with BuildLine():
            ThreePointArc((13, 0), (12.747548784, -2.549509757), (12, -5))
            Line((12, -5), (14.354093493, -5))
            ThreePointArc((14.354093493, -5), (14.987031412, -2.535525479), (15.2, 0))
            ThreePointArc((15.2, 0), (-2.535525479, 14.987031412), (-14.354093493, -5))
            Line((-14.354093493, -5), (-12, -5))
            ThreePointArc((-12, -5), (-2.549509757, 12.747548784), (13, 0))
        make_face()
        with BuildLine():
            ThreePointArc((1.5, 10.897247359), (0, 11), (-1.5, 10.897247359))
            Line((-1.5, 10.897247359), (1.5, 10.897247359))
        make_face()
    extrude(amount=BOSS_EXTRUDE2_DEPTH)

    # Sketch6 → Stick Outs (add)
    with BuildSketch(Plane.XY.offset(17).offset(STICK_START)):
        with BuildLine():
            Line((-11.719212261, -2.066413314), (-10.832885283, -1.910129954))
            ThreePointArc((-10.832885283, -1.910129954), (-10.973204553, -0.767321211), (-10.993299097, 0.383894464))
            Line((-10.993299097, 0.383894464), (-11.892750842, 0.415304011))
            ThreePointArc((-11.892750842, 0.415304011), (-11.871012198, -0.830102038), (-11.719212261, -2.066413314))
        make_face()
    stick_outs = extrude(amount=STICK_OUTS_DEPTH)

    # Mirror1: Stick Outs across plane
    add(stick_outs.mirror(Plane(origin=(0, 0, 0), x_dir=(0, 0, 1), z_dir=(1, 0, 0))))

    # Pin Hole sketch → Pin hole (cut)
    with BuildSketch(Plane(origin=(0, 0, 0), x_dir=(1, 0, 0), z_dir=(0, 1, 0))):
        with Locations((0, -2)):
            Circle(PIN_HOLE_SKETCH_R)
    extrude(amount=-PIN_HOLE_DEPTH, mode=Mode.SUBTRACT)

    # Pin hole direction 2: up to this cylinder (the profile starts inside it)
    pin_hole_direction_2_end = Plane(origin=(0, 0, 2), z_dir=(0, 0, -1)) * Cylinder(PIN_HOLE_DIRECTION_2_END_RADIUS, 81.812, mode=Mode.PRIVATE)
    # Pin Hole sketch → Pin hole direction 2 (cut, up to the surface)
    with BuildSketch(Plane(origin=(0, 0, 0), x_dir=(1, 0, 0), z_dir=(0, 1, 0)), mode=Mode.PRIVATE) as pin_hole_direction_2_sk1:
        with Locations((0, -2)):
            Circle(PIN_HOLE_SKETCH_R)
    pin_hole_direction_2_tool1 = extrude(pin_hole_direction_2_sk1.sketch, amount=PIN_HOLE_DIRECTION_2_REACH, mode=Mode.PRIVATE) & pin_hole_direction_2_end
    add(pin_hole_direction_2_tool1.solids().sort_by_distance((0, 0, 2))[0], mode=Mode.SUBTRACT)


solid = part.part
